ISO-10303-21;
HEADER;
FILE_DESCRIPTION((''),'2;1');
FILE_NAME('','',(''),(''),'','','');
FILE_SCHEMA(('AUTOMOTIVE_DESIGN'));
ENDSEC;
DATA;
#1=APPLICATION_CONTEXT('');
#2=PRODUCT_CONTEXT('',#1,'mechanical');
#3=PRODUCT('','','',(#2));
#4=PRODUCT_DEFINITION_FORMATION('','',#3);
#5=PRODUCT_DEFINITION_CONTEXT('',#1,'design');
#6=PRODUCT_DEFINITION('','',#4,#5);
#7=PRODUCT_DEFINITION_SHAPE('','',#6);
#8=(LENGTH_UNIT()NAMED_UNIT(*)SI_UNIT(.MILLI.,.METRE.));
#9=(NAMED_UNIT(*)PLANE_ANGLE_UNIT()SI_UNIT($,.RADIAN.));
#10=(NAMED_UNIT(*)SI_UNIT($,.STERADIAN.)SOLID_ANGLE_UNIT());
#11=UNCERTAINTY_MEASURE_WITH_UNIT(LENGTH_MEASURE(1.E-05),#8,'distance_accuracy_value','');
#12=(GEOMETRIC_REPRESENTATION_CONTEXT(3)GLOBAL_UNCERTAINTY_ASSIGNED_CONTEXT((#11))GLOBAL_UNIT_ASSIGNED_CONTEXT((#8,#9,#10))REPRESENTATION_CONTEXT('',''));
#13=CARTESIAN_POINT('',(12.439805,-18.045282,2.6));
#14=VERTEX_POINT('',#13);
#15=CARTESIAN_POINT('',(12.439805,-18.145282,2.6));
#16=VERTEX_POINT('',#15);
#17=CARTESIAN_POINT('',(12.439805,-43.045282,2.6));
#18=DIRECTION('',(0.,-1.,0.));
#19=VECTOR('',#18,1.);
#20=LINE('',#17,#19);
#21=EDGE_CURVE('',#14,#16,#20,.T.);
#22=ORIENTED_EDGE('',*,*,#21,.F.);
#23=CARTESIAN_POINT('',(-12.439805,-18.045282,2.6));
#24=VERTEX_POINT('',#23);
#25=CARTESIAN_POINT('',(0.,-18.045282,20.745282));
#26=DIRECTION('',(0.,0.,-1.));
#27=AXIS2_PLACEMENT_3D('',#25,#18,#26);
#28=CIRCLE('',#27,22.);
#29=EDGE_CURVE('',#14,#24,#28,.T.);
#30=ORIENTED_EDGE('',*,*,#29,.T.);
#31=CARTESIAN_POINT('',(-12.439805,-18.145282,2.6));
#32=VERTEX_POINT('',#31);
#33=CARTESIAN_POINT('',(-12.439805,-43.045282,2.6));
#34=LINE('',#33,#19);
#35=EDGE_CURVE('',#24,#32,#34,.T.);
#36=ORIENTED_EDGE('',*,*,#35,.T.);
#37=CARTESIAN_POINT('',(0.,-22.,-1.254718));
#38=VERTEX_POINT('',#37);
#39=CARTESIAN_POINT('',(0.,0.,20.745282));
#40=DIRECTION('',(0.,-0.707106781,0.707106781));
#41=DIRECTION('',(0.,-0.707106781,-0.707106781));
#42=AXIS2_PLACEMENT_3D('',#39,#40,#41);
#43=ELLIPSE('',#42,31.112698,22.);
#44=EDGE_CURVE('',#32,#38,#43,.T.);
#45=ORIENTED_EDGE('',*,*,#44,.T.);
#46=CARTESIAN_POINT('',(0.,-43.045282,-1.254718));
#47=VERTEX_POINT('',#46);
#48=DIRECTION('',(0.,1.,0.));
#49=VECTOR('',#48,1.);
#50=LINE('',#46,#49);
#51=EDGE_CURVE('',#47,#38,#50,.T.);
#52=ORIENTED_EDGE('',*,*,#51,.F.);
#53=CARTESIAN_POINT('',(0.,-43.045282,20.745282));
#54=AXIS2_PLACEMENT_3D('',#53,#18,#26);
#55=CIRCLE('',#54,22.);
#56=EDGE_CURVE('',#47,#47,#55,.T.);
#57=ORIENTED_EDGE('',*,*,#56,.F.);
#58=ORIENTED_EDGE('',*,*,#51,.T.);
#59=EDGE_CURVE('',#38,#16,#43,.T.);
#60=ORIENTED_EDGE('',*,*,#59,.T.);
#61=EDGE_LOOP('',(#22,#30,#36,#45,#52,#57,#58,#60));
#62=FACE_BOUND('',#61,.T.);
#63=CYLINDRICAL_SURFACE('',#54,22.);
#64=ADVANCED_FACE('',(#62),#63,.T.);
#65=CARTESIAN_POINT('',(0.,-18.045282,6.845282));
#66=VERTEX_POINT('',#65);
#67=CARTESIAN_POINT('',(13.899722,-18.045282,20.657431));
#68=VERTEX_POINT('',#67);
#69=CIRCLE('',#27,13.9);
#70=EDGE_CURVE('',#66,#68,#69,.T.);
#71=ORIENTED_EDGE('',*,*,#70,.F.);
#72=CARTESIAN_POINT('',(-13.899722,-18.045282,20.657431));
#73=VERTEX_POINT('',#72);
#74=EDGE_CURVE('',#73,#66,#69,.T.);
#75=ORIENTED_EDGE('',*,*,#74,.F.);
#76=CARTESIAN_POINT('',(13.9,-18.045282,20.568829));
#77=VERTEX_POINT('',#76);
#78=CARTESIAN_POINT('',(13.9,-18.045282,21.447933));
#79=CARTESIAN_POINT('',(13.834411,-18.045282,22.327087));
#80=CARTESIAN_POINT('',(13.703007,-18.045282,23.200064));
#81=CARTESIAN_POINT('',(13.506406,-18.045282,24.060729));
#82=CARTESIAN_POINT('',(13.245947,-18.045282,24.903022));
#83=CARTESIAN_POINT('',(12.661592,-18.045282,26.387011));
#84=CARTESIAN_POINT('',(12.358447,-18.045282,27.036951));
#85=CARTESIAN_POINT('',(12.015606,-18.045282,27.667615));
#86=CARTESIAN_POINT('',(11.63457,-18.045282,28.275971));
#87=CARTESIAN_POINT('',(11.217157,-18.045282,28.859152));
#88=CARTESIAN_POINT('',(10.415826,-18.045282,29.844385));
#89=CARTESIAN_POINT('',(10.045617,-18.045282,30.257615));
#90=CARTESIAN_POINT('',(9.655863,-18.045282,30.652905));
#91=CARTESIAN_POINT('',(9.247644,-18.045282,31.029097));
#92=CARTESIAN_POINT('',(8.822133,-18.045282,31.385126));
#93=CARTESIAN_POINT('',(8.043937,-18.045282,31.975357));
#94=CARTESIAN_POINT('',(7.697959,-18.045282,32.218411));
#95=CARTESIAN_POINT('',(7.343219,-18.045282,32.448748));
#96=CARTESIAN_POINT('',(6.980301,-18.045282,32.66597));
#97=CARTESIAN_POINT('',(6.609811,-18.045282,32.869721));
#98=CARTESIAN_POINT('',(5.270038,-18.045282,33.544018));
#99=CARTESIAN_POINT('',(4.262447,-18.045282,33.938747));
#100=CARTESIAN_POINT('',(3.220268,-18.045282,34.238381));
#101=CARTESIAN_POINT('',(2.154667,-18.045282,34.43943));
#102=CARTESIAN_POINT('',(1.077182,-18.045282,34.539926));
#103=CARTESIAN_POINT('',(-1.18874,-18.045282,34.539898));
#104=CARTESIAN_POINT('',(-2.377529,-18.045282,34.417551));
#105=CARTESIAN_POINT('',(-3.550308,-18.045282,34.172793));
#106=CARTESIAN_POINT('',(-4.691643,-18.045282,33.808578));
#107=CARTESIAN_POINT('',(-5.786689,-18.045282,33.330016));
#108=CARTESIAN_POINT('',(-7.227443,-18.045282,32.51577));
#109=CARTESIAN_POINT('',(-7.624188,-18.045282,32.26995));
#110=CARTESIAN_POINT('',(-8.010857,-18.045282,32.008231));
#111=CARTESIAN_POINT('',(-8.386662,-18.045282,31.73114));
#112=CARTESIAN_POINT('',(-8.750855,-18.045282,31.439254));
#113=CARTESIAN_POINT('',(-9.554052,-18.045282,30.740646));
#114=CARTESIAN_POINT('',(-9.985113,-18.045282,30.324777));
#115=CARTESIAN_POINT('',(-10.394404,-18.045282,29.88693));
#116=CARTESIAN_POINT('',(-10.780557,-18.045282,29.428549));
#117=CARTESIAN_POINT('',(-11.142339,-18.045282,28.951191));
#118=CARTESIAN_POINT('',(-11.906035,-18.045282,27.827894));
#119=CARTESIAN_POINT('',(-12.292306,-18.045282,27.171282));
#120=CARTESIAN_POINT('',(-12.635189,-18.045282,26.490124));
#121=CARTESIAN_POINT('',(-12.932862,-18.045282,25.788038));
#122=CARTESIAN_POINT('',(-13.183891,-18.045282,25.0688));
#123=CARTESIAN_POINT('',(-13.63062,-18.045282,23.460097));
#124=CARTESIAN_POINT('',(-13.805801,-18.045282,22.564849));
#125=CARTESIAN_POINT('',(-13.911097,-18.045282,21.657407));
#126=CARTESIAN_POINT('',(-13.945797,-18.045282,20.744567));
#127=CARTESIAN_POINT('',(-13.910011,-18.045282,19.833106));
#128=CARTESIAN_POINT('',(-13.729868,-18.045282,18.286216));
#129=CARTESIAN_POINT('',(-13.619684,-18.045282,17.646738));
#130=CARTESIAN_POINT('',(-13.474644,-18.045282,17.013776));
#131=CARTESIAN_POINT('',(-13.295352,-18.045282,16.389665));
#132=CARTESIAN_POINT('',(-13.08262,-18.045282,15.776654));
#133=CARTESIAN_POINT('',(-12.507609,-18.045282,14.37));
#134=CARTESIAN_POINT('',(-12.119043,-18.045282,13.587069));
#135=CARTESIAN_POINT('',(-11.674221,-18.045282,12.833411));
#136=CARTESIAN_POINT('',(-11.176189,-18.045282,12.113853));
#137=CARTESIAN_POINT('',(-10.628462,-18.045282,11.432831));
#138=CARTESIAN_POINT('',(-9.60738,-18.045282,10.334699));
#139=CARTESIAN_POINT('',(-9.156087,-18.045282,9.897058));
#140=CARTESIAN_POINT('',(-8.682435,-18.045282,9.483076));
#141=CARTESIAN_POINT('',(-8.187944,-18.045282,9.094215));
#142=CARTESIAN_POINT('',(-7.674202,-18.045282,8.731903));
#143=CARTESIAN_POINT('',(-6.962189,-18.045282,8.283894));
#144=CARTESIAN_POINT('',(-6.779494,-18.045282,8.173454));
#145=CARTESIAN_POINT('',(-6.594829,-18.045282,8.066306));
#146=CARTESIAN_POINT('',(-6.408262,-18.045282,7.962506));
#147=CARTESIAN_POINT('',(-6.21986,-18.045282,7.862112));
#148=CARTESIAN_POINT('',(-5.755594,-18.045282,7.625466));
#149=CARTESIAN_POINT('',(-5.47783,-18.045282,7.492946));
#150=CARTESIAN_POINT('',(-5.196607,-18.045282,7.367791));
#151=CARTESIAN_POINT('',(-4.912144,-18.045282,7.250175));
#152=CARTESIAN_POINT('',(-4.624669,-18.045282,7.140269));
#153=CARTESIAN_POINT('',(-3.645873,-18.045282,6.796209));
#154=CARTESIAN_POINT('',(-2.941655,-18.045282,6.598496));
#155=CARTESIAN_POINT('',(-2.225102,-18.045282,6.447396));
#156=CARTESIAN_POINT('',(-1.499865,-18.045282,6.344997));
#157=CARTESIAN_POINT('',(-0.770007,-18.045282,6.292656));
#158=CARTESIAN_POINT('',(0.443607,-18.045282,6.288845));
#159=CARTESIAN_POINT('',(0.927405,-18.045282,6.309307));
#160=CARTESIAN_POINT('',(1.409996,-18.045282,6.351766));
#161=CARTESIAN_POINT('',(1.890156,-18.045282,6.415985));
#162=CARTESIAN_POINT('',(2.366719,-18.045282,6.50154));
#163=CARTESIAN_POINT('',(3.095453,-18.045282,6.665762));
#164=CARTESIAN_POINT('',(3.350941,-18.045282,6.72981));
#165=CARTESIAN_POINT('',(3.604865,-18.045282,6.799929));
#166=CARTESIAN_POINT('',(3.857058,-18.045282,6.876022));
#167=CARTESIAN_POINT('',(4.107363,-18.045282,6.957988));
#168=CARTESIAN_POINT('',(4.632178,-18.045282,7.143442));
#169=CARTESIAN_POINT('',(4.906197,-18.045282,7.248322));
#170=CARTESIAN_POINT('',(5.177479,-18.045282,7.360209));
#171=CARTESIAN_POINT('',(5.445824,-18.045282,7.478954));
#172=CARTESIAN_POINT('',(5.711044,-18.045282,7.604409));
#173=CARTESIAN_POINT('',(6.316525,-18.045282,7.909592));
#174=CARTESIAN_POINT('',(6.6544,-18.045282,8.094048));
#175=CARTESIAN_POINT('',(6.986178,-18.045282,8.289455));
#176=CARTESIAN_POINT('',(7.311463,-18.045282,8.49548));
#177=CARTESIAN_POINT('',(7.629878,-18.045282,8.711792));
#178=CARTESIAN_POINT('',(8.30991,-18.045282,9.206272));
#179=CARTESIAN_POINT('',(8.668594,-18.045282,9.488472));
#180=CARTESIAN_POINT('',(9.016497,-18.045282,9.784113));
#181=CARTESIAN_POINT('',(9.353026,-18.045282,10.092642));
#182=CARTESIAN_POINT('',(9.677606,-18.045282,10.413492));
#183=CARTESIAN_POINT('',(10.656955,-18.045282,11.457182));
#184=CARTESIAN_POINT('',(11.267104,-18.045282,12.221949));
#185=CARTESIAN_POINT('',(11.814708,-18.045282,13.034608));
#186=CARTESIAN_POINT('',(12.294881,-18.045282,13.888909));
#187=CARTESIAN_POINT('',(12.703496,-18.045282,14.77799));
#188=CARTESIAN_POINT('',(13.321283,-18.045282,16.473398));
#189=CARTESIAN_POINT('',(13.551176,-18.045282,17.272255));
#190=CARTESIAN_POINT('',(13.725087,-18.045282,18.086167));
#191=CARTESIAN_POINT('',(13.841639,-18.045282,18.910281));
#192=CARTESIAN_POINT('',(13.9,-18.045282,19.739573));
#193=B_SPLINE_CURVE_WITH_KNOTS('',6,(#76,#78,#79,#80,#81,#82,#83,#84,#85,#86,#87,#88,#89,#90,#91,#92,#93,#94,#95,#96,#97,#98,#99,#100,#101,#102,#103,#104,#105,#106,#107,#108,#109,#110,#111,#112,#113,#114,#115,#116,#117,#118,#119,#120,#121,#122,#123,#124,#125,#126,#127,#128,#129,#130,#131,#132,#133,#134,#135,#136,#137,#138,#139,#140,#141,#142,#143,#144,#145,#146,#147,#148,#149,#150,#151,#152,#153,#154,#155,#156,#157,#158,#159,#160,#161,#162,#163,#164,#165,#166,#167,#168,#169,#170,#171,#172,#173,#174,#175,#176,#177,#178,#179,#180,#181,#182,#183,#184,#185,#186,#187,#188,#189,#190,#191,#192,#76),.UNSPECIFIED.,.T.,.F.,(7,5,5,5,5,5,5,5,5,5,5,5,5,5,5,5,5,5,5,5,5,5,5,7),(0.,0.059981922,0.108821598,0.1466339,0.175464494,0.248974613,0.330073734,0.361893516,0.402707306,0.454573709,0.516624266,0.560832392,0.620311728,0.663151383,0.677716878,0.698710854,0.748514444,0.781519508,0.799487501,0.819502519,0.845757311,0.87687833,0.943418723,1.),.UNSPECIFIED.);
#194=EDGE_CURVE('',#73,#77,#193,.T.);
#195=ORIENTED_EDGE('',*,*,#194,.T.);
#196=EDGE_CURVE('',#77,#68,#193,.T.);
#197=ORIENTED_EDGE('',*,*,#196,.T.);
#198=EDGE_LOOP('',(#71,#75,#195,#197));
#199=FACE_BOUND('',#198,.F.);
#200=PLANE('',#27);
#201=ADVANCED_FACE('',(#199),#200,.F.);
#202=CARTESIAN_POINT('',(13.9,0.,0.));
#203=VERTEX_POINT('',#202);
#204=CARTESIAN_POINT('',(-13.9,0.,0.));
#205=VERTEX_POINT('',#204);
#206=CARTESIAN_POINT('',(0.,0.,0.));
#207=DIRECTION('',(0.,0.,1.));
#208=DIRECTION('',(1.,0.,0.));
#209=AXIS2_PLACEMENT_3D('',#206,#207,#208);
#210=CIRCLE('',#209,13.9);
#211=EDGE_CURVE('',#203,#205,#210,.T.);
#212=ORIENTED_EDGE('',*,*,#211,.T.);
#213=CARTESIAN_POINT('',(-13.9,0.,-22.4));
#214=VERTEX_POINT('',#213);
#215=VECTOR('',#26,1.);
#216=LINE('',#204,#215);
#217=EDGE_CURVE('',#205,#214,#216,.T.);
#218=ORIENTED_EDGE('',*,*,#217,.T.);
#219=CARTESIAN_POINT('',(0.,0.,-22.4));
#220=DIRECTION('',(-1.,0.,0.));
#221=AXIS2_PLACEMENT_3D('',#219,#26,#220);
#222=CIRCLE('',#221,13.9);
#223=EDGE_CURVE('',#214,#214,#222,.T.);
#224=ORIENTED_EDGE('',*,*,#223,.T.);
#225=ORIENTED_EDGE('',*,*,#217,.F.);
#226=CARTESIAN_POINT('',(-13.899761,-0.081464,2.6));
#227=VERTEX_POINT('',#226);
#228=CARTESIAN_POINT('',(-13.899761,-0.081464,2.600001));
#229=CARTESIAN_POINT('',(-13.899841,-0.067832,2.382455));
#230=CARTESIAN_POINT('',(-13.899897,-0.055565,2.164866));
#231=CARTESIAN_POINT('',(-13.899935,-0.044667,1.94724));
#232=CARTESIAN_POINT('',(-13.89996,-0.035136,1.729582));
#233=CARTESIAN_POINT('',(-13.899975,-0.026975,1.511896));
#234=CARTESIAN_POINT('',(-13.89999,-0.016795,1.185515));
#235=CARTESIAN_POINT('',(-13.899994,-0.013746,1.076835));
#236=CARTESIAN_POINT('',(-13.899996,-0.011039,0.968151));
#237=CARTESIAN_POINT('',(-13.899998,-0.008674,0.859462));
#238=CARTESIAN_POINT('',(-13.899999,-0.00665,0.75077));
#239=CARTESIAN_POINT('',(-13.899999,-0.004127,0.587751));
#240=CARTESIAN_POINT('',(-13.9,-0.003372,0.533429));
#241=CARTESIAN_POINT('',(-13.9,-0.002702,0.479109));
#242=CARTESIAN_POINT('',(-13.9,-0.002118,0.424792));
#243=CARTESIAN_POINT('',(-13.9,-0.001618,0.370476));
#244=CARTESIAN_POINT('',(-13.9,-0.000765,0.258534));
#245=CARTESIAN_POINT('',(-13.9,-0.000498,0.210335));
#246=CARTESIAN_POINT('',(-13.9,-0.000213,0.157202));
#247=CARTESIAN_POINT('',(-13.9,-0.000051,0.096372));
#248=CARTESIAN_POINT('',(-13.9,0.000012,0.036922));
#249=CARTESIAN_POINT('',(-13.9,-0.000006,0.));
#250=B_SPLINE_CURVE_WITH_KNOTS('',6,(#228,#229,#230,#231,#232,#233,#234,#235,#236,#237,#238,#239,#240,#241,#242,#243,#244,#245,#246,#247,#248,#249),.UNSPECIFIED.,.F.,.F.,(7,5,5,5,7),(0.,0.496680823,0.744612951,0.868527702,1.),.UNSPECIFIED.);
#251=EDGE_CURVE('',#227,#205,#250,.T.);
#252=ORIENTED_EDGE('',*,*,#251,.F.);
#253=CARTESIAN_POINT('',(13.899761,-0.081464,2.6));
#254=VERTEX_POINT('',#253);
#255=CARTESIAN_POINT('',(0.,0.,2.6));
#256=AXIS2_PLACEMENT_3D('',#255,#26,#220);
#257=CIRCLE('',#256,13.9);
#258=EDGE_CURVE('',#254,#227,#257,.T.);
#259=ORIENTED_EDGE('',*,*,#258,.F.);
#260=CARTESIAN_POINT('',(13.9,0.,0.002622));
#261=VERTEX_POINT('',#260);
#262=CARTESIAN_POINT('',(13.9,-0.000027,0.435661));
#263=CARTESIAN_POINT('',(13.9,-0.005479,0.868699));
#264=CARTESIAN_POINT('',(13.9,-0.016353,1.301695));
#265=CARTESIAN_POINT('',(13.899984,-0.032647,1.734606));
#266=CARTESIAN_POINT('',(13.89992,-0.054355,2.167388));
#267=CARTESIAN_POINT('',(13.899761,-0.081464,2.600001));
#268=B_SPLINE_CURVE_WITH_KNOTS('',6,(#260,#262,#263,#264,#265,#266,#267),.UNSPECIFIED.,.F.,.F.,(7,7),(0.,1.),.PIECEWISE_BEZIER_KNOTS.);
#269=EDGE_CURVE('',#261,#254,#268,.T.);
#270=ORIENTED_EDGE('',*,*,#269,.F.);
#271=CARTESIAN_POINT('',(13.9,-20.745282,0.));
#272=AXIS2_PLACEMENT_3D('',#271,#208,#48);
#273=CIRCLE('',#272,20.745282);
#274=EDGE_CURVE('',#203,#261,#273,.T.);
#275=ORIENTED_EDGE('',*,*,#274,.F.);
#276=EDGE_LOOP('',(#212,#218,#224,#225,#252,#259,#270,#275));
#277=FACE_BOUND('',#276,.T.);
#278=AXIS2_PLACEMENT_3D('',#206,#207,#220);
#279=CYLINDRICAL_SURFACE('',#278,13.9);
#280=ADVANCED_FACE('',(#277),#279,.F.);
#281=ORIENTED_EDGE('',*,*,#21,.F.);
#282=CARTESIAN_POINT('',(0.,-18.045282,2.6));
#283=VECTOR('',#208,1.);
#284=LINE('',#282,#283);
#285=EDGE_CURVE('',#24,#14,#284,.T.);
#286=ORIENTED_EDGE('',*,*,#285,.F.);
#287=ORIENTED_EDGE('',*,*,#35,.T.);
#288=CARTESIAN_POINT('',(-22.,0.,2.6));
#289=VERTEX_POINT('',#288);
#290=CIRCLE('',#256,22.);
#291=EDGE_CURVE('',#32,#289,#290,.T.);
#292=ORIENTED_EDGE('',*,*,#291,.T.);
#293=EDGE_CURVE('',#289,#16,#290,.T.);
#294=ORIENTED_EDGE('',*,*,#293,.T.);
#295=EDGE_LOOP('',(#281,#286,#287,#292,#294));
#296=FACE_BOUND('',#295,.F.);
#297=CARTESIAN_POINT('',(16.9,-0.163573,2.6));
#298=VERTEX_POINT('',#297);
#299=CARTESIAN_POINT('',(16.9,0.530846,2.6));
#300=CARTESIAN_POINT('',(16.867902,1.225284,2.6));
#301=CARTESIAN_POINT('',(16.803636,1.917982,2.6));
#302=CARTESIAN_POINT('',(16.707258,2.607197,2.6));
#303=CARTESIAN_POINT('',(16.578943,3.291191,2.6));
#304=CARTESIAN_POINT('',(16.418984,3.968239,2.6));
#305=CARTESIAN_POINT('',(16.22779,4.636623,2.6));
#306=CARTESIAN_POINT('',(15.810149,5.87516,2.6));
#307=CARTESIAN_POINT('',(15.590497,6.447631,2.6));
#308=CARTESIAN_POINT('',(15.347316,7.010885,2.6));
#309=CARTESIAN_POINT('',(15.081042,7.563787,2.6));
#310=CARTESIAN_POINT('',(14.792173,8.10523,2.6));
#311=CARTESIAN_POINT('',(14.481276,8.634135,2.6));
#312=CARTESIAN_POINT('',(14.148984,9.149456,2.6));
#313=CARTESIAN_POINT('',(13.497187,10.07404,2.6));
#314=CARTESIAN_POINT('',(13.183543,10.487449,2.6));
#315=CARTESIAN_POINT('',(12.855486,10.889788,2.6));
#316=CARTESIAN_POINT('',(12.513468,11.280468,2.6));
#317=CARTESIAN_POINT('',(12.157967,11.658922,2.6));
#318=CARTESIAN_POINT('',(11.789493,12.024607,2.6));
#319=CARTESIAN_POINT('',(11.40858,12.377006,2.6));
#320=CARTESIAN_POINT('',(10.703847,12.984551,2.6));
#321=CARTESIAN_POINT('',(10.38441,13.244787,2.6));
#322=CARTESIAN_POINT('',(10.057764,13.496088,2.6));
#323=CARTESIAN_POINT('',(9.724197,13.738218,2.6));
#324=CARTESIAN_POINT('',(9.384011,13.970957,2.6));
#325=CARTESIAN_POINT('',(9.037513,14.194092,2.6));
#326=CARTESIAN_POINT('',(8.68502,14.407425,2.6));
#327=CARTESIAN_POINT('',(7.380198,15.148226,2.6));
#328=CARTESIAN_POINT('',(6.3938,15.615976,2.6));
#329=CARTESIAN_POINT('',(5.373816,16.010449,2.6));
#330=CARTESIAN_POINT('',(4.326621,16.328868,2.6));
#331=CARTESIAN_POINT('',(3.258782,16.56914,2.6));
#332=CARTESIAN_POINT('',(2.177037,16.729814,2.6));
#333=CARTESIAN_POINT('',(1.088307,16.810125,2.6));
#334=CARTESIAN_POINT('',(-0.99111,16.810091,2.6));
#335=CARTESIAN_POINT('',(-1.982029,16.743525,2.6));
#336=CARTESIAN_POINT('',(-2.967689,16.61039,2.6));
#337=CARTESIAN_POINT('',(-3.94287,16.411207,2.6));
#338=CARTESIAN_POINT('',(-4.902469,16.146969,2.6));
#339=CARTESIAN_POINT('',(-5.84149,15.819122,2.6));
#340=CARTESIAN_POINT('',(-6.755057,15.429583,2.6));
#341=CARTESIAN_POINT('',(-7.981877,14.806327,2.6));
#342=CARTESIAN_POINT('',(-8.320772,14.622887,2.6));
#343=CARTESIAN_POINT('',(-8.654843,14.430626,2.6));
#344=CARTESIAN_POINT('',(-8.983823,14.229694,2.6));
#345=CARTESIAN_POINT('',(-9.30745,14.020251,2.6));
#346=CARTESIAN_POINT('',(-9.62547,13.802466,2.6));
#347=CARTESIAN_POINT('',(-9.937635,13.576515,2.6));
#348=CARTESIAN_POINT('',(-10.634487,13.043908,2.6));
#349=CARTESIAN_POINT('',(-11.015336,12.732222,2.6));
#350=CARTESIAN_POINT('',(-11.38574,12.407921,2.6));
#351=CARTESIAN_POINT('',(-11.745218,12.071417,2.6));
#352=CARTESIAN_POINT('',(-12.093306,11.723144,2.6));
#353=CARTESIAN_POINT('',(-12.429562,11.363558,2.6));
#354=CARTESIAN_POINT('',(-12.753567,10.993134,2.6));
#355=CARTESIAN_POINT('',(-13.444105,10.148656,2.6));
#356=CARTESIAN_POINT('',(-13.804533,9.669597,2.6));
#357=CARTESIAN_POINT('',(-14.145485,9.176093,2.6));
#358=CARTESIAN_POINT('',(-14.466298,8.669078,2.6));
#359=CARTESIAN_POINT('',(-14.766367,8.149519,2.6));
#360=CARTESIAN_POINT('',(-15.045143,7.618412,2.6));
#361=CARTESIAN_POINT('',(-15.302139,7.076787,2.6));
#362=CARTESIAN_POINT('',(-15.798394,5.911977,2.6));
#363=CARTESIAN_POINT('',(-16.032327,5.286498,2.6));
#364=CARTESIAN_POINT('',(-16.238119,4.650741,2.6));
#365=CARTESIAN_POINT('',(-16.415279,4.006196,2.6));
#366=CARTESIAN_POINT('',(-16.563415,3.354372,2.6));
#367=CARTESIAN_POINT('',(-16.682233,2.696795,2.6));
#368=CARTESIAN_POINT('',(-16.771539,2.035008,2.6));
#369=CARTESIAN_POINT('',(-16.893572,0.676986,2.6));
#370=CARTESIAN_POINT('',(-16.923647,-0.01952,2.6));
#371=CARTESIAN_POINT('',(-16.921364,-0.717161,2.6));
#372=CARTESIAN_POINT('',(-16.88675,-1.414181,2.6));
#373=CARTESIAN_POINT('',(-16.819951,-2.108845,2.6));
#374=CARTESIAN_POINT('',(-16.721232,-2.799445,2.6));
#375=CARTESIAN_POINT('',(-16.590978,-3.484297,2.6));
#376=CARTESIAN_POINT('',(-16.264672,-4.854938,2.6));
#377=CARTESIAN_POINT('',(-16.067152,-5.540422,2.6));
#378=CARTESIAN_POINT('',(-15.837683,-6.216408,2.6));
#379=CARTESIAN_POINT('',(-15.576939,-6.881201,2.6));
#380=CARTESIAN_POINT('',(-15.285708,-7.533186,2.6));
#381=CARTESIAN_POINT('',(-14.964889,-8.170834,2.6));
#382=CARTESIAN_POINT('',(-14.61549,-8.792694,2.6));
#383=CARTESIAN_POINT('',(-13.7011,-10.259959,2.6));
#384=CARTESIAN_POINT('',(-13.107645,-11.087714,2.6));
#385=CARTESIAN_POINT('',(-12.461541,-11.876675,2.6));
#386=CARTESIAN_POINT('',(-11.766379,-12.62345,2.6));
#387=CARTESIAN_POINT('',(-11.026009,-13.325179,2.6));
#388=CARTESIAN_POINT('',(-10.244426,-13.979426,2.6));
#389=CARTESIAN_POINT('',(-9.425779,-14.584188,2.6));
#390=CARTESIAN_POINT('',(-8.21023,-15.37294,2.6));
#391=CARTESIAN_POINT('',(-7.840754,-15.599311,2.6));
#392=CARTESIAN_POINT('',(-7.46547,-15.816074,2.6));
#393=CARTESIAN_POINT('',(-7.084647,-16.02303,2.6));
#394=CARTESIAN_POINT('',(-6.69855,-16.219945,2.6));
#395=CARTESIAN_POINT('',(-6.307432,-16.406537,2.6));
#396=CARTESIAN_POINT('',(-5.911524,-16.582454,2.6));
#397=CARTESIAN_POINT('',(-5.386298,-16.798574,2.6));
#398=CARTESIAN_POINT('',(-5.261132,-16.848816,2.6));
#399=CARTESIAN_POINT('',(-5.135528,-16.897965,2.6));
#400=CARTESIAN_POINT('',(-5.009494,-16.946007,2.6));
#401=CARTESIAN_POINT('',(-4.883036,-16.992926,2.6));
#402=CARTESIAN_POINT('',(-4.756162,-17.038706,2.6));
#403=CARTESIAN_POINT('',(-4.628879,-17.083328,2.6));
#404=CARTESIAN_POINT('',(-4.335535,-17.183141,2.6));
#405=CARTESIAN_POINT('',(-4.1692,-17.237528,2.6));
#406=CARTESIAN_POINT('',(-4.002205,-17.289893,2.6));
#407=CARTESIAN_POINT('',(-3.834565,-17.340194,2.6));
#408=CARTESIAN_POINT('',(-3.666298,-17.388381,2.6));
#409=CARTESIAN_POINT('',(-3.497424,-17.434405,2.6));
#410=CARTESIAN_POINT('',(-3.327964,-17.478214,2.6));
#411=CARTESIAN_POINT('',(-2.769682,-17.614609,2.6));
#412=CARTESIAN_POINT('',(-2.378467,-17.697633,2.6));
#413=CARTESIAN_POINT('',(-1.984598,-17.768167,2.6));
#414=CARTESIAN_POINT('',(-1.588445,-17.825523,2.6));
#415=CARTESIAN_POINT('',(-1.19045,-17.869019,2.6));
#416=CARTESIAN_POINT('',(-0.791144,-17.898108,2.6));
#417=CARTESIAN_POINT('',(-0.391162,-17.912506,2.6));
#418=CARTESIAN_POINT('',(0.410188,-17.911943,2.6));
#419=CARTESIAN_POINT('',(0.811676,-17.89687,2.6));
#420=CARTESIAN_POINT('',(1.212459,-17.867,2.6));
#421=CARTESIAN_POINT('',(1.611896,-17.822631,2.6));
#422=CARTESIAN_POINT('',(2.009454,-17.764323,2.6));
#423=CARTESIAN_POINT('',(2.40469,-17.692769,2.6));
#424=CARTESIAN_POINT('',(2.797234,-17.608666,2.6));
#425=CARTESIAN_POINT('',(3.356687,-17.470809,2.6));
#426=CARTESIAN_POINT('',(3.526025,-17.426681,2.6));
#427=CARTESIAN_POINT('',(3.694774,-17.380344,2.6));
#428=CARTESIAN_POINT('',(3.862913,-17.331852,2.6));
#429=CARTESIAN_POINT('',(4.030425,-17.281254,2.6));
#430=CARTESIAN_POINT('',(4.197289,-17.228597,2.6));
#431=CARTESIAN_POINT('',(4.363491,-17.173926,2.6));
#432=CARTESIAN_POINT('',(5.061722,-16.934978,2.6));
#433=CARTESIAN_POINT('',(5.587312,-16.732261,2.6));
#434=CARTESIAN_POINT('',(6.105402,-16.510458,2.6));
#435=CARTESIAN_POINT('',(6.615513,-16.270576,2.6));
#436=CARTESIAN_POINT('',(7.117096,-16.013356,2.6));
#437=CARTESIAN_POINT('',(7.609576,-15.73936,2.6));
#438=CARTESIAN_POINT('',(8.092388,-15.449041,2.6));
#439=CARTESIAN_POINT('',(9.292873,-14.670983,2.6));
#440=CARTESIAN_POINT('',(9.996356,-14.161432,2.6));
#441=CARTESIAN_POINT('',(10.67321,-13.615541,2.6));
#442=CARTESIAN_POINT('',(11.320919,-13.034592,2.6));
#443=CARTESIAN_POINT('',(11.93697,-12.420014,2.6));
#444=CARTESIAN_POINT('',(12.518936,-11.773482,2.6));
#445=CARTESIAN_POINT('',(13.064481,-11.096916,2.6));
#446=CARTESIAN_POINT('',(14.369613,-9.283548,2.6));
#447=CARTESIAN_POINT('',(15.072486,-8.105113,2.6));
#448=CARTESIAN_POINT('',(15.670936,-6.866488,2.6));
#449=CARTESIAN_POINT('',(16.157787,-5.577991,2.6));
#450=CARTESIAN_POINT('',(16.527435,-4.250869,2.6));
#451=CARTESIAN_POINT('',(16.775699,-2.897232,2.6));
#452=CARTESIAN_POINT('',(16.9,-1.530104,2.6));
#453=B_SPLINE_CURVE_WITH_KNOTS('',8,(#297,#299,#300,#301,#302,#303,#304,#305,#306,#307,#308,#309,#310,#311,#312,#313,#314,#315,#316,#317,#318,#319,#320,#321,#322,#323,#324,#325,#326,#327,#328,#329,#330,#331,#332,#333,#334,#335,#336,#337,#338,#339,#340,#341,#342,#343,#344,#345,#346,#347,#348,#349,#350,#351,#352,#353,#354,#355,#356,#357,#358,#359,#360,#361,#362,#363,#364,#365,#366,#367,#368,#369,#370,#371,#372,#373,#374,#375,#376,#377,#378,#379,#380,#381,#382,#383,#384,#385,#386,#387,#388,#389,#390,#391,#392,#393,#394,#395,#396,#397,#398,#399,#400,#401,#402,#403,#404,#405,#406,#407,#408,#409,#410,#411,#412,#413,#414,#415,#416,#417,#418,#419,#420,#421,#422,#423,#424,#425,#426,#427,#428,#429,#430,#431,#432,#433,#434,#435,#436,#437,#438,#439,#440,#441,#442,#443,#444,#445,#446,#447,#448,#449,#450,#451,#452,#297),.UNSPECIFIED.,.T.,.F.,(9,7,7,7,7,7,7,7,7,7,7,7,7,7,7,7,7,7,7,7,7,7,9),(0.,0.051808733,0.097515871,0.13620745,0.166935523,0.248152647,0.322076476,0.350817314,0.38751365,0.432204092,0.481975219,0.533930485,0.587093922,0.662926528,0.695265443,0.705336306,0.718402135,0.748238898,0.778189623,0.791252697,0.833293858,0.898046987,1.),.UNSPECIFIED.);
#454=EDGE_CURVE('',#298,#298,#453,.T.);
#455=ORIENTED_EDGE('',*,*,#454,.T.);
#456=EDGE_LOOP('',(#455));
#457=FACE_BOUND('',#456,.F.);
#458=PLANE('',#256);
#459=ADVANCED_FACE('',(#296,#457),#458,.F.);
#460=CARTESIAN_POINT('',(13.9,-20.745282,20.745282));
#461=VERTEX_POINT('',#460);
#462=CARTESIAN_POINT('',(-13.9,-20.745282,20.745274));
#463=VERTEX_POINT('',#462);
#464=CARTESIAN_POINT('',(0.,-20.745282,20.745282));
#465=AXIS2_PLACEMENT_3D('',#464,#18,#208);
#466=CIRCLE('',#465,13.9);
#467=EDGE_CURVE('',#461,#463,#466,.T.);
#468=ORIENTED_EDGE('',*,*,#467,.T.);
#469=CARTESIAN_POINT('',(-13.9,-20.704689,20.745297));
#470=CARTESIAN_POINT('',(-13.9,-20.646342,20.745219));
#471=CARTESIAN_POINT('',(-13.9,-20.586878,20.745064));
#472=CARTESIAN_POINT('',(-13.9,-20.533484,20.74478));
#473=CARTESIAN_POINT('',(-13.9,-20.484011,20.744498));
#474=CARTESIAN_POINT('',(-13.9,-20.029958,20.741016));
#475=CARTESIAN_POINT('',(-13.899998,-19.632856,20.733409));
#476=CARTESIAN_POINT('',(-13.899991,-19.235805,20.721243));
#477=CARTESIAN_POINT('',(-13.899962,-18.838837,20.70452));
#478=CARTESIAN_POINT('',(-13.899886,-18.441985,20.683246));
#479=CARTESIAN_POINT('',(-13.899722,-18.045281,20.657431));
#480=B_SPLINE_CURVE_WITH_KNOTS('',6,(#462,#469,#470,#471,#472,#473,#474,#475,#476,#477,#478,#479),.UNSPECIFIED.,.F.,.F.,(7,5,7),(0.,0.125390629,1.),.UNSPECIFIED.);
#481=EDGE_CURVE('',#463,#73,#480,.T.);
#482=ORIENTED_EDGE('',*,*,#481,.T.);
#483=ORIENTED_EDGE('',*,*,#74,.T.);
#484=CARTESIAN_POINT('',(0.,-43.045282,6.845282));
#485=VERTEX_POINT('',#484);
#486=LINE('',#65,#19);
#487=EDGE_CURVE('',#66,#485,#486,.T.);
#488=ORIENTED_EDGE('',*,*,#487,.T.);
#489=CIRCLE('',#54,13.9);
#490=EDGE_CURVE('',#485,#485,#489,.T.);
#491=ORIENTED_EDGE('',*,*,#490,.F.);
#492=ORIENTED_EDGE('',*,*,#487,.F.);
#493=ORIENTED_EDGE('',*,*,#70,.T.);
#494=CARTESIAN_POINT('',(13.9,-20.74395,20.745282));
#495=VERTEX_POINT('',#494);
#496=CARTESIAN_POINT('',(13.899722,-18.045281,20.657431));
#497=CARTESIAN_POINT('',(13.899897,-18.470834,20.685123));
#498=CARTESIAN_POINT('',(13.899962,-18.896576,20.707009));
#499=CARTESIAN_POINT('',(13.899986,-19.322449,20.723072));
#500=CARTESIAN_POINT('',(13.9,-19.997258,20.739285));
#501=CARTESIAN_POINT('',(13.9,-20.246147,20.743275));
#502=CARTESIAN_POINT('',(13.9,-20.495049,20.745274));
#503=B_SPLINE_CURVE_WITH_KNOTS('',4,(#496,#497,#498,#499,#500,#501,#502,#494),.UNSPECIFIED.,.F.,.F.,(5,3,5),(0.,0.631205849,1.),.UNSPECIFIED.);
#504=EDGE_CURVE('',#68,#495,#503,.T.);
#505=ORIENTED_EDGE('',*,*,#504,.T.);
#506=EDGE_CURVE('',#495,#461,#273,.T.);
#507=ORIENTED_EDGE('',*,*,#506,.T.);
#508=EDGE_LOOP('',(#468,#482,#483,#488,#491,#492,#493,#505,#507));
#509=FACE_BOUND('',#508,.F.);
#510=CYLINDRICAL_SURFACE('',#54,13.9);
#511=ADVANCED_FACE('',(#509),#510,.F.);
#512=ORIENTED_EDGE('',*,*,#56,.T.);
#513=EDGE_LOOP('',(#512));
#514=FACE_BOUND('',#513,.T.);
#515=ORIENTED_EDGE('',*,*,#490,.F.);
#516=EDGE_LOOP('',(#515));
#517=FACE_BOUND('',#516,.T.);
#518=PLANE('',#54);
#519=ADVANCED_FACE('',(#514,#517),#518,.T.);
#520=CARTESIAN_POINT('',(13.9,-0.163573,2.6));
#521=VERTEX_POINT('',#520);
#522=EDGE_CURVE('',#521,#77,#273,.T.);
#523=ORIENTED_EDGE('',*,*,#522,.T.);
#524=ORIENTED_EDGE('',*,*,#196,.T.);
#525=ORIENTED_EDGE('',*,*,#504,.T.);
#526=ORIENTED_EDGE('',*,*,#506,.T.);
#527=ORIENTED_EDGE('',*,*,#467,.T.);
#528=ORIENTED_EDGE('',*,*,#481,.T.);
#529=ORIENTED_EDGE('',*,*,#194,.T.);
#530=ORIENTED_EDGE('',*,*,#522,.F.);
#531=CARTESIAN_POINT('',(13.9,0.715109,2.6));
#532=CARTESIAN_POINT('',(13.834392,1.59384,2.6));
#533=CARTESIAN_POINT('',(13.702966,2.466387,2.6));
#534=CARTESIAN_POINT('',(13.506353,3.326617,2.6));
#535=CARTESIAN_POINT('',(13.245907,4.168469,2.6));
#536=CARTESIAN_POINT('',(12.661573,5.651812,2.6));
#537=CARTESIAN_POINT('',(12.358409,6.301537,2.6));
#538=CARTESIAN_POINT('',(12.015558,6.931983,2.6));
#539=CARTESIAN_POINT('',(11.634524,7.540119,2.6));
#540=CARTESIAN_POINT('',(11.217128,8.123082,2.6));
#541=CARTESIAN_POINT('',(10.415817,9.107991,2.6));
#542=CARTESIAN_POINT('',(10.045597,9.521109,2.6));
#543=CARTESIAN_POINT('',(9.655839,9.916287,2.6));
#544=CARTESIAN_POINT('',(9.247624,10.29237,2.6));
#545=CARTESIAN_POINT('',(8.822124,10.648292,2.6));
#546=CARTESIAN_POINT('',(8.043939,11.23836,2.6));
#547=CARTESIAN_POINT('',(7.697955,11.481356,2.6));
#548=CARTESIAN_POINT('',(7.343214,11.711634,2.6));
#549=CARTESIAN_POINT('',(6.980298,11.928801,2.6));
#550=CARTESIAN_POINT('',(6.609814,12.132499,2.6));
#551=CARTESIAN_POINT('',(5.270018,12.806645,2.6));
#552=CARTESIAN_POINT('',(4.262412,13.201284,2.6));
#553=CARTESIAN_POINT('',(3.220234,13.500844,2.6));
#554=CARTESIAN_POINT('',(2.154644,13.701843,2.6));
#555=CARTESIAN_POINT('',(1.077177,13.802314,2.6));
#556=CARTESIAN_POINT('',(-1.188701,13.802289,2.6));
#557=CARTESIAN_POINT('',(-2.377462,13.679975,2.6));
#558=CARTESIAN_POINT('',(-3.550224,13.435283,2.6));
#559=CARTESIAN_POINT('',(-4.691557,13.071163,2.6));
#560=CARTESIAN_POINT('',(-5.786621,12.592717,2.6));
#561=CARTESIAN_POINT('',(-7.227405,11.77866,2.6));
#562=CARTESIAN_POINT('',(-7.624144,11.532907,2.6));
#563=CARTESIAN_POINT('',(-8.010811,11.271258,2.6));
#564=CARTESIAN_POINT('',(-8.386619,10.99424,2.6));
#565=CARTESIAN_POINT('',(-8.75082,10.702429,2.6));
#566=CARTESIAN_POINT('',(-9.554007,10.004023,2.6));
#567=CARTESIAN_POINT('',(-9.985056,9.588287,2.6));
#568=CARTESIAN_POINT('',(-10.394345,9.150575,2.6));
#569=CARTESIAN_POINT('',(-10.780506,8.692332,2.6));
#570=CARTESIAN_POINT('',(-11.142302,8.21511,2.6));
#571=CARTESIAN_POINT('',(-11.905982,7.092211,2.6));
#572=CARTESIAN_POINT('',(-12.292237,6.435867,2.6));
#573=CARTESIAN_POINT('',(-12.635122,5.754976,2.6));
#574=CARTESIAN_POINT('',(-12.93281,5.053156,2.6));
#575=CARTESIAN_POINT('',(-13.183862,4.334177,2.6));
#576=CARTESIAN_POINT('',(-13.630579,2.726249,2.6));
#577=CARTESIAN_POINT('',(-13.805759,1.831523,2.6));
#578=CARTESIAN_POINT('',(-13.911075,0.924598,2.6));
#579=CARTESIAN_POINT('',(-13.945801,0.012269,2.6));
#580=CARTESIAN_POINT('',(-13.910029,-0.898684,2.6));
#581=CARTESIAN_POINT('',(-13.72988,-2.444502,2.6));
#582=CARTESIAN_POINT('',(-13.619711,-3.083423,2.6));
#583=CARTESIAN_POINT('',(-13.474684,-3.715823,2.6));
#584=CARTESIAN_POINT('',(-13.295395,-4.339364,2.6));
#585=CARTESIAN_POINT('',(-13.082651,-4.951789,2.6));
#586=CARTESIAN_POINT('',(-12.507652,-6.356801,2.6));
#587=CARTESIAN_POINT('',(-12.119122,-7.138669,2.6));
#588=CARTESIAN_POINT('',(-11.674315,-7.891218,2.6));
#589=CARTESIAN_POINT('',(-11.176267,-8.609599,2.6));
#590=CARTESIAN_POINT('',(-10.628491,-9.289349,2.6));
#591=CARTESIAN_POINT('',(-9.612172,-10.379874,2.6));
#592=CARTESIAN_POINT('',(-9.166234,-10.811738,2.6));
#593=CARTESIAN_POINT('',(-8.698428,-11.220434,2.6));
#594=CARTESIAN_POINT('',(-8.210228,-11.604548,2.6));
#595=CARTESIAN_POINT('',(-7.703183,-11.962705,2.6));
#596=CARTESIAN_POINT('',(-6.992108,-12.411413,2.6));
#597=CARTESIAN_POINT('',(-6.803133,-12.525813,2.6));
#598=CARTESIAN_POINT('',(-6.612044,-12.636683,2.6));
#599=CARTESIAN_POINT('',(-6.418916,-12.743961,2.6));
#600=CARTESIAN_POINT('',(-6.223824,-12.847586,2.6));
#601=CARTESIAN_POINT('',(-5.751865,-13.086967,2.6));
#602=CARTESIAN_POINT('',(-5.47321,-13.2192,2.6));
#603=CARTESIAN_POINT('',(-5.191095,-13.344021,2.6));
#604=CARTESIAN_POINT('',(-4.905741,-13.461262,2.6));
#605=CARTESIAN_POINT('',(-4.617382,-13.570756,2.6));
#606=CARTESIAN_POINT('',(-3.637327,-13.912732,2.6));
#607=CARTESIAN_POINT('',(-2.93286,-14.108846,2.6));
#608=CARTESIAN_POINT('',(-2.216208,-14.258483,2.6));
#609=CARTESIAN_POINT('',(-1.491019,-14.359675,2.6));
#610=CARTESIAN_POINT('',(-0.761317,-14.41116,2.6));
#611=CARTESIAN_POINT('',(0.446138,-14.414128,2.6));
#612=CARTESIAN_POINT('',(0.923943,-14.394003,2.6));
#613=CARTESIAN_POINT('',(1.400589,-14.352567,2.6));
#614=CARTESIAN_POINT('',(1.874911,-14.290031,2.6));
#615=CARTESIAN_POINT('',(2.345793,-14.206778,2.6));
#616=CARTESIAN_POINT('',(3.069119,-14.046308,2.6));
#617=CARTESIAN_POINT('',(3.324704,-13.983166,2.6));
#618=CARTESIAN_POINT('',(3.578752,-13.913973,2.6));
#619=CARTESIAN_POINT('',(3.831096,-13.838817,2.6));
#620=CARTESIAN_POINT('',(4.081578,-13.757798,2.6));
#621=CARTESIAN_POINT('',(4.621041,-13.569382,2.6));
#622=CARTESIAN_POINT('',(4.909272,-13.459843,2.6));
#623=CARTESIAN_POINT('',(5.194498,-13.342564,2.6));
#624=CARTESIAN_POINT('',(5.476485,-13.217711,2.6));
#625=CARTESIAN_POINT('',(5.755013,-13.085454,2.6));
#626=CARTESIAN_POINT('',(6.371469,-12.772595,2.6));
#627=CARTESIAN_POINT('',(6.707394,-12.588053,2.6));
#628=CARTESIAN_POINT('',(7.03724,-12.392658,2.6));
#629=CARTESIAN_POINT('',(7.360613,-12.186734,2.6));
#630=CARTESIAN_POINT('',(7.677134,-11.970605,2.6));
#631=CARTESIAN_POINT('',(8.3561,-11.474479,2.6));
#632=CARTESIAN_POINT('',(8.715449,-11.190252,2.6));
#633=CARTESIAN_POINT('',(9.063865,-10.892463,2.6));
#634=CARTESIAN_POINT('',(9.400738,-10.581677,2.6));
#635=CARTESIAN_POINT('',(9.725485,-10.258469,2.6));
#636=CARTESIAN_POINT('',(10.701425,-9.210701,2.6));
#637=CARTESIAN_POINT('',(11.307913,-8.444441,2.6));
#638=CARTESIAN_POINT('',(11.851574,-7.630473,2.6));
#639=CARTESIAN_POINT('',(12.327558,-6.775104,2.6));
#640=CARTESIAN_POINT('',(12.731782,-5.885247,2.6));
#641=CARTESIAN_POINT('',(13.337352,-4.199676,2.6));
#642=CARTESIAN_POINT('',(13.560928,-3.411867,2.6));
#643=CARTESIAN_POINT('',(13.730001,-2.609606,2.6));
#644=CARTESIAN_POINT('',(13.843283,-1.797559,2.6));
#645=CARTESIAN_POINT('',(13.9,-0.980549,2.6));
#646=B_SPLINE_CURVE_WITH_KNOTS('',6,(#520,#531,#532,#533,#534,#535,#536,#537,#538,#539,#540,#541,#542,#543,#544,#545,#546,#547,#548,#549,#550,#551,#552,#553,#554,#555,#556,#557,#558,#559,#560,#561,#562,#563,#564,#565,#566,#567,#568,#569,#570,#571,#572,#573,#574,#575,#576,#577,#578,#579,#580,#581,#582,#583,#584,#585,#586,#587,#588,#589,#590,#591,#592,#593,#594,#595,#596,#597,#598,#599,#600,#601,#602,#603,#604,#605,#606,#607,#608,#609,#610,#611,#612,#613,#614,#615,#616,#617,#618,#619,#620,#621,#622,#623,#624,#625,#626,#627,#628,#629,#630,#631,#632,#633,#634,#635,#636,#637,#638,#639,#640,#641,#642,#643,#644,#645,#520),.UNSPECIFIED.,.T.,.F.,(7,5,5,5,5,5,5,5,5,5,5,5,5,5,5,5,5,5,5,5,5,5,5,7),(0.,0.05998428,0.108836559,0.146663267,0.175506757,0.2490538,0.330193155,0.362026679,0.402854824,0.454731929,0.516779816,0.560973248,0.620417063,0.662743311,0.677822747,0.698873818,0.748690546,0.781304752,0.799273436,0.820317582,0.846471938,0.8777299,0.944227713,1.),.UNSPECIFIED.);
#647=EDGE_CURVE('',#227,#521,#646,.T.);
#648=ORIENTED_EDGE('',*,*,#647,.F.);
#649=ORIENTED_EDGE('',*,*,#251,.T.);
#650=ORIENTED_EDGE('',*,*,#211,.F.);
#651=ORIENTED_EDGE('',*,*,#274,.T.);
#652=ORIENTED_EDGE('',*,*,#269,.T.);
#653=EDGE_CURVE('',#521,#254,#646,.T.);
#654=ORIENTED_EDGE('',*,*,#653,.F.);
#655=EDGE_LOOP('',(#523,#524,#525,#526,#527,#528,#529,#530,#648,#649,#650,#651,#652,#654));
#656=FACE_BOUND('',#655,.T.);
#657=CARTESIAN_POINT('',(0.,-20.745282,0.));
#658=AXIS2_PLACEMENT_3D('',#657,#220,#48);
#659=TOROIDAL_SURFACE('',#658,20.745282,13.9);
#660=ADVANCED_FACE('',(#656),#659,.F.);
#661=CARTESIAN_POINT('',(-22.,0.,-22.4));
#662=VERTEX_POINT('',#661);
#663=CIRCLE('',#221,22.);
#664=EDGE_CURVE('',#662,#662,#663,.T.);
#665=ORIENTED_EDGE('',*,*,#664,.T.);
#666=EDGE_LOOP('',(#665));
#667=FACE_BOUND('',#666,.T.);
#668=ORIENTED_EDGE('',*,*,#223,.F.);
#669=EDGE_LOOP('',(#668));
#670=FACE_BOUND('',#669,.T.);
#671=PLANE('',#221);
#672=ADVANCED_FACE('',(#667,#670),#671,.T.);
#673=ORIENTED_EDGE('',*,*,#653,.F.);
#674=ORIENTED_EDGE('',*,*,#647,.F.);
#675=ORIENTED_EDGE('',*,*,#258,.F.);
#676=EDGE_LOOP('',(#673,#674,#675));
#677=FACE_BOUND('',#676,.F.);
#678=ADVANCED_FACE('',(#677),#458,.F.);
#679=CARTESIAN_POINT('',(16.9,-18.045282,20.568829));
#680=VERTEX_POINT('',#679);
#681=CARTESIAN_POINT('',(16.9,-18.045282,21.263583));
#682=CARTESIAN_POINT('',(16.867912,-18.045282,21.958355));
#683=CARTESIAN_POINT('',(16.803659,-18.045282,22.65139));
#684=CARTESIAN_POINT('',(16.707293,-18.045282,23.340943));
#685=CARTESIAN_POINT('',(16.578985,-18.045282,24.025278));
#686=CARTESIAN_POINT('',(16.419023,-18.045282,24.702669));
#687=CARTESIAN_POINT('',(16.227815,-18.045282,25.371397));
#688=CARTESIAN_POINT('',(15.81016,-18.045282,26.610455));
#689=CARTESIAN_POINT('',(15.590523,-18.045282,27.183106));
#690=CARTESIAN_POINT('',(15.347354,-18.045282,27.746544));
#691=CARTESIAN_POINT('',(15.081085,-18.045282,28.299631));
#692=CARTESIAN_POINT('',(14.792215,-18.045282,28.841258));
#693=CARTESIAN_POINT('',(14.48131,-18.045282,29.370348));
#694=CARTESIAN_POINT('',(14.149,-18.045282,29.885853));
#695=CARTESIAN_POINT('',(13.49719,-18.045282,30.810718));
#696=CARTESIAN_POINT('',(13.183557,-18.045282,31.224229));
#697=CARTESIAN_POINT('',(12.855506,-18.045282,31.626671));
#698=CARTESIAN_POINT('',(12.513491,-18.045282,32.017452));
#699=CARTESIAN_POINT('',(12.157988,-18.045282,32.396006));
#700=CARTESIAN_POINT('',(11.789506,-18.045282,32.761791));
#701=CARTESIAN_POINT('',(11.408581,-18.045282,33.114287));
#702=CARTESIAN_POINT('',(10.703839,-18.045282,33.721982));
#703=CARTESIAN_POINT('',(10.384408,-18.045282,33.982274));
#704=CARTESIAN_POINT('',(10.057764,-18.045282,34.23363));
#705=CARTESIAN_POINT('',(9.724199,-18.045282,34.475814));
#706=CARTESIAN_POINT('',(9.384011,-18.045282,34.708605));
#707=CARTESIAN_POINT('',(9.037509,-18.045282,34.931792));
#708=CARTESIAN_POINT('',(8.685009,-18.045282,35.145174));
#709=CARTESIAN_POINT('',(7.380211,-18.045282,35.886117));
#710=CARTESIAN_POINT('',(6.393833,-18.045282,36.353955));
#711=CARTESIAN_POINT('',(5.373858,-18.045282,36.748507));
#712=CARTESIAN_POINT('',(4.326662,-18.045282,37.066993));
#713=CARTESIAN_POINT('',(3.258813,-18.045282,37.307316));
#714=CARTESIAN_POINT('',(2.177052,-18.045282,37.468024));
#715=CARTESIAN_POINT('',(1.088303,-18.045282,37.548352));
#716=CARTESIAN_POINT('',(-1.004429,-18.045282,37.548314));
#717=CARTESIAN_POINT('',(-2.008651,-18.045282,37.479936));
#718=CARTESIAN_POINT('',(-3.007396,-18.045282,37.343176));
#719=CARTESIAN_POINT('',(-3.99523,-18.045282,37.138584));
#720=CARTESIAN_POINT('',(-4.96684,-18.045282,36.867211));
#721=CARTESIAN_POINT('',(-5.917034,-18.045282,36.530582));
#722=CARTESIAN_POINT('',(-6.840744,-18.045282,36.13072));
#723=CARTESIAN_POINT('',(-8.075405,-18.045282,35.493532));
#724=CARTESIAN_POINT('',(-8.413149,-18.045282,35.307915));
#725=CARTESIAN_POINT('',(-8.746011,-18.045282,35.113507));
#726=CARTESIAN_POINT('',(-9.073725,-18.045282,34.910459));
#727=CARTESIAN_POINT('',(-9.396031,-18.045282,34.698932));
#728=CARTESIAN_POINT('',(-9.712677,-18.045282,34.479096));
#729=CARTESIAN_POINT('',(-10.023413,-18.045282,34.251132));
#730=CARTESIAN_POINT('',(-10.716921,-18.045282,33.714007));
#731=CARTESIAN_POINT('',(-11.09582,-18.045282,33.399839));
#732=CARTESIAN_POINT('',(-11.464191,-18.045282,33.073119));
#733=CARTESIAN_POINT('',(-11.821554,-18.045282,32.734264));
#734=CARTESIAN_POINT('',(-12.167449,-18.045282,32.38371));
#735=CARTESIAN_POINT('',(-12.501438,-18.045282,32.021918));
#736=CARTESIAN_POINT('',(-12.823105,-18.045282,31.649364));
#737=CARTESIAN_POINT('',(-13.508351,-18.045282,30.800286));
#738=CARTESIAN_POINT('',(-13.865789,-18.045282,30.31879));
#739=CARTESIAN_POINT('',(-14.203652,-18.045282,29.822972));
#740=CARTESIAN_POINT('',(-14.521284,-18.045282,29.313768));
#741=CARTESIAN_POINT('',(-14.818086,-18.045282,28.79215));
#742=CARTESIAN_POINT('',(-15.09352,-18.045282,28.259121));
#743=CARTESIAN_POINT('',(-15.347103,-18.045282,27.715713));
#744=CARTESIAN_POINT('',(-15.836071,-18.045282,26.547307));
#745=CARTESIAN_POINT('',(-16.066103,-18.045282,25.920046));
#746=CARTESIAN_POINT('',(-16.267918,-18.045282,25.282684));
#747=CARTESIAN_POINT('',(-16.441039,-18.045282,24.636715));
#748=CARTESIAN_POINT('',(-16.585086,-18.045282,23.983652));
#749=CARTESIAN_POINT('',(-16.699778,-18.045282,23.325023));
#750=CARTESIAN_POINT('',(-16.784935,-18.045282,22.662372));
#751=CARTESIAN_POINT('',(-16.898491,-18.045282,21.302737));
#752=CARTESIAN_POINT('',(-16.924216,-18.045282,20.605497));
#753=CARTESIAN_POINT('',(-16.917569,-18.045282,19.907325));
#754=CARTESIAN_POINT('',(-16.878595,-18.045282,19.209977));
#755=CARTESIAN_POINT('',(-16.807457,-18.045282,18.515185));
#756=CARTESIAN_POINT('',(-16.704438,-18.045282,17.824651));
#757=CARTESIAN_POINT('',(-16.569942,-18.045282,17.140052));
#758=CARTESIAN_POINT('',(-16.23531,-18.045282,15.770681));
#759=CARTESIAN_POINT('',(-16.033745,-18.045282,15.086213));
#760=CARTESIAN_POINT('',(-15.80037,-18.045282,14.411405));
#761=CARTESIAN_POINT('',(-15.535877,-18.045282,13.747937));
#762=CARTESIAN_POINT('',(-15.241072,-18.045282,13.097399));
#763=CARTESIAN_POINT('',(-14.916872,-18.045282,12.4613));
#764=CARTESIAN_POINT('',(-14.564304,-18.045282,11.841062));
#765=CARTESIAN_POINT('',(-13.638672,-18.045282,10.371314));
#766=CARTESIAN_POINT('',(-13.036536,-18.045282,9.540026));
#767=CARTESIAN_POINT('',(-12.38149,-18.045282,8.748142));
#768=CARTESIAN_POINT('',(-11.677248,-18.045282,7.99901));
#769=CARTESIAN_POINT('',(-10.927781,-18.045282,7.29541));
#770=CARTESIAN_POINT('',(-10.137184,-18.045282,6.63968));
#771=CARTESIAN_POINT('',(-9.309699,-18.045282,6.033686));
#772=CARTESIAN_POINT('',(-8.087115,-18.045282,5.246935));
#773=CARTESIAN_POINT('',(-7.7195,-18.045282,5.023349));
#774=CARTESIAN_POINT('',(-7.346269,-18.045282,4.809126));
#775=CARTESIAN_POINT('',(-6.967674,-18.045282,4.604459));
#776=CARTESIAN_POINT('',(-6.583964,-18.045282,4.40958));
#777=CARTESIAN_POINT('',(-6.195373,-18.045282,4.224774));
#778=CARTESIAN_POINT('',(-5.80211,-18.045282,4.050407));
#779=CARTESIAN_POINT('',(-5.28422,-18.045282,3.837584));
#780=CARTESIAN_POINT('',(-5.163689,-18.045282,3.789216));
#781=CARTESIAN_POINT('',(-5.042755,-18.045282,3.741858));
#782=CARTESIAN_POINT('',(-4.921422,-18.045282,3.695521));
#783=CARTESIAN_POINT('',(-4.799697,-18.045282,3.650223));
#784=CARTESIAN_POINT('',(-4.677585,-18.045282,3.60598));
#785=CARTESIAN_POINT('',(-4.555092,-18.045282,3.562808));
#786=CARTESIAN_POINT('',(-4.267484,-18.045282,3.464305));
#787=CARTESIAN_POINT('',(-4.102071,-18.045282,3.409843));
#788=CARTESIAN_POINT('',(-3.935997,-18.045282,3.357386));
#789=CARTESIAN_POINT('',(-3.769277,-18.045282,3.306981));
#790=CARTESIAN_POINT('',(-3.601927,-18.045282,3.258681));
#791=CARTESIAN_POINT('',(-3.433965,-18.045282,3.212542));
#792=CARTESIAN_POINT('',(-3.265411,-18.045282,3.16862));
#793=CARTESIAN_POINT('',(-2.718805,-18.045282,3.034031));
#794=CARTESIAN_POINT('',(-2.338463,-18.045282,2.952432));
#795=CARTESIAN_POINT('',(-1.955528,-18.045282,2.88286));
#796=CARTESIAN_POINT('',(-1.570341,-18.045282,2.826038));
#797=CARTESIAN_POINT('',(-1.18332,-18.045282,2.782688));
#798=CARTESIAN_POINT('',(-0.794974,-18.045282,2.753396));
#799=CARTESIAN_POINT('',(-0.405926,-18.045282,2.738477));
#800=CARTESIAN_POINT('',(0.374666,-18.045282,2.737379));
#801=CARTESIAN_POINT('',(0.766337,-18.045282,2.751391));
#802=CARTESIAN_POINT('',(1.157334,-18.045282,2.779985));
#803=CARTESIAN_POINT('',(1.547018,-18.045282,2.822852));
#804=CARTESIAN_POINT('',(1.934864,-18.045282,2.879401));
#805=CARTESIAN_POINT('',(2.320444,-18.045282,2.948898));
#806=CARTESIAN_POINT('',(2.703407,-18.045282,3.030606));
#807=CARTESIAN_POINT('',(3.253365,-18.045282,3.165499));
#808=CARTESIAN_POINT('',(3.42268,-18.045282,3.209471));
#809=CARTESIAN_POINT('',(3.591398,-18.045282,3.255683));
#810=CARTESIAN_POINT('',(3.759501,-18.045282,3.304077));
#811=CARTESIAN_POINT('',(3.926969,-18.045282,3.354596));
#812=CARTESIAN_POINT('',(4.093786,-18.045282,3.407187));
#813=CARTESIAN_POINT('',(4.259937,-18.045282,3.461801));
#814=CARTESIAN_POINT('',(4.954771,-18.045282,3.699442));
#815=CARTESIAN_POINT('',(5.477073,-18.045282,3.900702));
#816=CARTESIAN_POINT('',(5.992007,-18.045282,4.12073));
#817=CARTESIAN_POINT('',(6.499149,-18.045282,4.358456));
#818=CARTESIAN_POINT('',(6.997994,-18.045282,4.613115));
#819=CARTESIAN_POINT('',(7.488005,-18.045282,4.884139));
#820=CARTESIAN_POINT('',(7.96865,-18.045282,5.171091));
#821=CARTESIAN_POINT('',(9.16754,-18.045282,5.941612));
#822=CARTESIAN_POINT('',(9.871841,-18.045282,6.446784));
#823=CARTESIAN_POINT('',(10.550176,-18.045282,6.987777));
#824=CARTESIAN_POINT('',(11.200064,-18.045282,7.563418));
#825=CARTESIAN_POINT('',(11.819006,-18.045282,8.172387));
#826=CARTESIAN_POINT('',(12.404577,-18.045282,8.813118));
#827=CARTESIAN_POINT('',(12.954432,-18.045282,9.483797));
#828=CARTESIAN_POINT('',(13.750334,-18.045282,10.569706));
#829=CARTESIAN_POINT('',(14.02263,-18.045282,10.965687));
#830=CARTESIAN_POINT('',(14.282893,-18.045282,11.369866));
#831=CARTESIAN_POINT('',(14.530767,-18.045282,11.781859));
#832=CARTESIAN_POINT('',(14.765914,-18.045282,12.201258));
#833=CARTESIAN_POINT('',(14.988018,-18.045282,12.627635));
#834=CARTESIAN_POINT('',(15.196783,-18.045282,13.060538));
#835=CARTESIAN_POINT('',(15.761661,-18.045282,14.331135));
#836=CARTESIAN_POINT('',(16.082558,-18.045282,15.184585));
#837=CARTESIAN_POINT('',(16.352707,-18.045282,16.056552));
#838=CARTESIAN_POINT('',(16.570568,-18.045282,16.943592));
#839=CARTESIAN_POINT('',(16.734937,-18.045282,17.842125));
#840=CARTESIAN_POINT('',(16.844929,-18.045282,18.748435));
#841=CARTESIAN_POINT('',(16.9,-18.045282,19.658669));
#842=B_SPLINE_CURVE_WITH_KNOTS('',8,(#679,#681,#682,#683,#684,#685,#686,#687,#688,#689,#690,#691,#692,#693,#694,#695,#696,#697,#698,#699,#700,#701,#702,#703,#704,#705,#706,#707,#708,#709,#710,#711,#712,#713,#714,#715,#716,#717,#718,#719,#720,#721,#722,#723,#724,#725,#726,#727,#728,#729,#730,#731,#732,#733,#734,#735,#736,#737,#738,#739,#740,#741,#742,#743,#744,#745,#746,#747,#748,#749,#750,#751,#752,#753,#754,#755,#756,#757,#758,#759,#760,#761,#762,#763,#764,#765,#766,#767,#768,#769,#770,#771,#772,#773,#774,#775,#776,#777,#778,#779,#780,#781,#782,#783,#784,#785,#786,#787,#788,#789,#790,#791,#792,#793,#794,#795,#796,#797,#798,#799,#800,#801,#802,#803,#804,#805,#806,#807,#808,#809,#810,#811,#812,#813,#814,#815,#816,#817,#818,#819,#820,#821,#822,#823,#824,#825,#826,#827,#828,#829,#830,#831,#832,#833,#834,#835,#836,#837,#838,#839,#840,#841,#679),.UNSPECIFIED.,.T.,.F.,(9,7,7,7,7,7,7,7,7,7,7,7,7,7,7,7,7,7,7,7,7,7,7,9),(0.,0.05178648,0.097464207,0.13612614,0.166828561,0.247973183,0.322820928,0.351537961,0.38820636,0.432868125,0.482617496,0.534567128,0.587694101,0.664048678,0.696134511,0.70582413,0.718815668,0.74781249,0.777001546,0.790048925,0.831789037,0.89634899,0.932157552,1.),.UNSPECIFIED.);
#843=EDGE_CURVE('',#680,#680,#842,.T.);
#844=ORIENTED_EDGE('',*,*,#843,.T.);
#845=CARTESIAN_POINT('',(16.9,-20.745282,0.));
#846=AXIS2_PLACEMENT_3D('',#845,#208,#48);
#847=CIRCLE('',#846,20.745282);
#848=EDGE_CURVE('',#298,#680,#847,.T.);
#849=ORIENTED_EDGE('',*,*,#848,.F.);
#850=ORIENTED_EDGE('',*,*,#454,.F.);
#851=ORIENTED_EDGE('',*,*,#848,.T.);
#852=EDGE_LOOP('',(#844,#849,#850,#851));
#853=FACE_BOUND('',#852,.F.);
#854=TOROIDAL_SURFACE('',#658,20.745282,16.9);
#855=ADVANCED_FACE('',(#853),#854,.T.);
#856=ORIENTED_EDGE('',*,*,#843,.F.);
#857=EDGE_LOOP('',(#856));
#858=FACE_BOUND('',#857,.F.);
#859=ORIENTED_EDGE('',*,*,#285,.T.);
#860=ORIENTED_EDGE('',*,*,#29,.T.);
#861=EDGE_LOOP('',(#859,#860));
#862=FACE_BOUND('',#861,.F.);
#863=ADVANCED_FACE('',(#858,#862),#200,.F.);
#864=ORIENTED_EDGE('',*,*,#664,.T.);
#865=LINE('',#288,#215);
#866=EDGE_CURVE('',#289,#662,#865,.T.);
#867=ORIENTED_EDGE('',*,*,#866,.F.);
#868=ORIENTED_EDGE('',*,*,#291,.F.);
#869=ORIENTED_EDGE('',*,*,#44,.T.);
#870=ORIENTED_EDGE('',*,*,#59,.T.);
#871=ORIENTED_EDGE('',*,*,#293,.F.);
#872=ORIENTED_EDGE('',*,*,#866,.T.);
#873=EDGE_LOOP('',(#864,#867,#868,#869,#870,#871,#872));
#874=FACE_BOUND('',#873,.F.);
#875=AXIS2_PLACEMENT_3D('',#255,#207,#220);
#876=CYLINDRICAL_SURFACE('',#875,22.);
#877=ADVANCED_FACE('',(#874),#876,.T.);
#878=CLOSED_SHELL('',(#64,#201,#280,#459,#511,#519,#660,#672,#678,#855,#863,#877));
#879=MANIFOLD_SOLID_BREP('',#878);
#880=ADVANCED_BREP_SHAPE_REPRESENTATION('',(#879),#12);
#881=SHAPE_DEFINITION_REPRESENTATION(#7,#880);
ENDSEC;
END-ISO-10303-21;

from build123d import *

# Parameters (mm, degrees)
ESQUISSE1_R             = 16.9
ESQUISSE1_R_2           = 13.9
R_VOL_MINCE1_ANGLE      = 90
ESQUISSE2_R             = 15.9
ESQUISSE2_R_2           = 13.9
EXTRU_MINCE1_DEPTH      = 22.4
ESQUISSE3_R             = 18.1
ESQUISSE3_R_2           = 16.1
EXTRU_MINCE2_DEPTH      = 22.3
CROQUIS1_R              = 22
CROQUIS1_R_2            = 13.9
SALIENTE_EXTRUIR1_DEPTH = 25
SALIENTE_EXTRUIR2_START = -25
CROQUIS2_R              = 22
CROQUIS2_R_2            = 13.9
SALIENTE_EXTRUIR2_DEPTH = 25


with BuildPart() as part:
    # Esquisse1 → Révol.-Mince1 (revolve)
    with BuildSketch(Plane.XY):
        Circle(ESQUISSE1_R)
        Circle(ESQUISSE1_R_2, mode=Mode.SUBTRACT)
    revolve(axis=Axis((0, -20.745281933, 0), (1, 0, 0)), revolution_arc=R_VOL_MINCE1_ANGLE)

    # Esquisse2 → Extru.-Mince1 (add)
    with BuildSketch(Plane(origin=(0, 0, 0), x_dir=(-1, 0, 0), z_dir=(0, 0, -1))):
        Circle(ESQUISSE2_R)
        Circle(ESQUISSE2_R_2, mode=Mode.SUBTRACT)
    extrude(amount=EXTRU_MINCE1_DEPTH)

    # Esquisse3 → Extru.-Mince2 (add)
    with BuildSketch(Plane.XZ.offset(20.745281933)):
        with Locations((0, 20.745281933)):
            Circle(ESQUISSE3_R)
        with Locations((0, 20.745281933)):
            Circle(ESQUISSE3_R_2, mode=Mode.SUBTRACT)
    extrude(amount=EXTRU_MINCE2_DEPTH)

    # Croquis1 → Saliente-Extruir1 (add)
    with BuildSketch(Plane.XZ.offset(43.045281933)):
        with Locations(Location((0, 20.745281933, 0), (0, 0, 270))):
            Circle(CROQUIS1_R)
        with Locations(Location((0, 20.745281933, 0), (0, 0, 270))):
            Circle(CROQUIS1_R_2, mode=Mode.SUBTRACT)
    extrude(amount=-SALIENTE_EXTRUIR1_DEPTH)

    # Croquis2 → Saliente-Extruir2 (add)
    with BuildSketch(Plane(origin=(0, 0, -22.4), x_dir=(-1, 0, 0), z_dir=(0, 0, -1)).offset(SALIENTE_EXTRUIR2_START)):
        Circle(CROQUIS2_R)
        Circle(CROQUIS2_R_2, mode=Mode.SUBTRACT)
    extrude(amount=SALIENTE_EXTRUIR2_DEPTH)


solid = part.part
